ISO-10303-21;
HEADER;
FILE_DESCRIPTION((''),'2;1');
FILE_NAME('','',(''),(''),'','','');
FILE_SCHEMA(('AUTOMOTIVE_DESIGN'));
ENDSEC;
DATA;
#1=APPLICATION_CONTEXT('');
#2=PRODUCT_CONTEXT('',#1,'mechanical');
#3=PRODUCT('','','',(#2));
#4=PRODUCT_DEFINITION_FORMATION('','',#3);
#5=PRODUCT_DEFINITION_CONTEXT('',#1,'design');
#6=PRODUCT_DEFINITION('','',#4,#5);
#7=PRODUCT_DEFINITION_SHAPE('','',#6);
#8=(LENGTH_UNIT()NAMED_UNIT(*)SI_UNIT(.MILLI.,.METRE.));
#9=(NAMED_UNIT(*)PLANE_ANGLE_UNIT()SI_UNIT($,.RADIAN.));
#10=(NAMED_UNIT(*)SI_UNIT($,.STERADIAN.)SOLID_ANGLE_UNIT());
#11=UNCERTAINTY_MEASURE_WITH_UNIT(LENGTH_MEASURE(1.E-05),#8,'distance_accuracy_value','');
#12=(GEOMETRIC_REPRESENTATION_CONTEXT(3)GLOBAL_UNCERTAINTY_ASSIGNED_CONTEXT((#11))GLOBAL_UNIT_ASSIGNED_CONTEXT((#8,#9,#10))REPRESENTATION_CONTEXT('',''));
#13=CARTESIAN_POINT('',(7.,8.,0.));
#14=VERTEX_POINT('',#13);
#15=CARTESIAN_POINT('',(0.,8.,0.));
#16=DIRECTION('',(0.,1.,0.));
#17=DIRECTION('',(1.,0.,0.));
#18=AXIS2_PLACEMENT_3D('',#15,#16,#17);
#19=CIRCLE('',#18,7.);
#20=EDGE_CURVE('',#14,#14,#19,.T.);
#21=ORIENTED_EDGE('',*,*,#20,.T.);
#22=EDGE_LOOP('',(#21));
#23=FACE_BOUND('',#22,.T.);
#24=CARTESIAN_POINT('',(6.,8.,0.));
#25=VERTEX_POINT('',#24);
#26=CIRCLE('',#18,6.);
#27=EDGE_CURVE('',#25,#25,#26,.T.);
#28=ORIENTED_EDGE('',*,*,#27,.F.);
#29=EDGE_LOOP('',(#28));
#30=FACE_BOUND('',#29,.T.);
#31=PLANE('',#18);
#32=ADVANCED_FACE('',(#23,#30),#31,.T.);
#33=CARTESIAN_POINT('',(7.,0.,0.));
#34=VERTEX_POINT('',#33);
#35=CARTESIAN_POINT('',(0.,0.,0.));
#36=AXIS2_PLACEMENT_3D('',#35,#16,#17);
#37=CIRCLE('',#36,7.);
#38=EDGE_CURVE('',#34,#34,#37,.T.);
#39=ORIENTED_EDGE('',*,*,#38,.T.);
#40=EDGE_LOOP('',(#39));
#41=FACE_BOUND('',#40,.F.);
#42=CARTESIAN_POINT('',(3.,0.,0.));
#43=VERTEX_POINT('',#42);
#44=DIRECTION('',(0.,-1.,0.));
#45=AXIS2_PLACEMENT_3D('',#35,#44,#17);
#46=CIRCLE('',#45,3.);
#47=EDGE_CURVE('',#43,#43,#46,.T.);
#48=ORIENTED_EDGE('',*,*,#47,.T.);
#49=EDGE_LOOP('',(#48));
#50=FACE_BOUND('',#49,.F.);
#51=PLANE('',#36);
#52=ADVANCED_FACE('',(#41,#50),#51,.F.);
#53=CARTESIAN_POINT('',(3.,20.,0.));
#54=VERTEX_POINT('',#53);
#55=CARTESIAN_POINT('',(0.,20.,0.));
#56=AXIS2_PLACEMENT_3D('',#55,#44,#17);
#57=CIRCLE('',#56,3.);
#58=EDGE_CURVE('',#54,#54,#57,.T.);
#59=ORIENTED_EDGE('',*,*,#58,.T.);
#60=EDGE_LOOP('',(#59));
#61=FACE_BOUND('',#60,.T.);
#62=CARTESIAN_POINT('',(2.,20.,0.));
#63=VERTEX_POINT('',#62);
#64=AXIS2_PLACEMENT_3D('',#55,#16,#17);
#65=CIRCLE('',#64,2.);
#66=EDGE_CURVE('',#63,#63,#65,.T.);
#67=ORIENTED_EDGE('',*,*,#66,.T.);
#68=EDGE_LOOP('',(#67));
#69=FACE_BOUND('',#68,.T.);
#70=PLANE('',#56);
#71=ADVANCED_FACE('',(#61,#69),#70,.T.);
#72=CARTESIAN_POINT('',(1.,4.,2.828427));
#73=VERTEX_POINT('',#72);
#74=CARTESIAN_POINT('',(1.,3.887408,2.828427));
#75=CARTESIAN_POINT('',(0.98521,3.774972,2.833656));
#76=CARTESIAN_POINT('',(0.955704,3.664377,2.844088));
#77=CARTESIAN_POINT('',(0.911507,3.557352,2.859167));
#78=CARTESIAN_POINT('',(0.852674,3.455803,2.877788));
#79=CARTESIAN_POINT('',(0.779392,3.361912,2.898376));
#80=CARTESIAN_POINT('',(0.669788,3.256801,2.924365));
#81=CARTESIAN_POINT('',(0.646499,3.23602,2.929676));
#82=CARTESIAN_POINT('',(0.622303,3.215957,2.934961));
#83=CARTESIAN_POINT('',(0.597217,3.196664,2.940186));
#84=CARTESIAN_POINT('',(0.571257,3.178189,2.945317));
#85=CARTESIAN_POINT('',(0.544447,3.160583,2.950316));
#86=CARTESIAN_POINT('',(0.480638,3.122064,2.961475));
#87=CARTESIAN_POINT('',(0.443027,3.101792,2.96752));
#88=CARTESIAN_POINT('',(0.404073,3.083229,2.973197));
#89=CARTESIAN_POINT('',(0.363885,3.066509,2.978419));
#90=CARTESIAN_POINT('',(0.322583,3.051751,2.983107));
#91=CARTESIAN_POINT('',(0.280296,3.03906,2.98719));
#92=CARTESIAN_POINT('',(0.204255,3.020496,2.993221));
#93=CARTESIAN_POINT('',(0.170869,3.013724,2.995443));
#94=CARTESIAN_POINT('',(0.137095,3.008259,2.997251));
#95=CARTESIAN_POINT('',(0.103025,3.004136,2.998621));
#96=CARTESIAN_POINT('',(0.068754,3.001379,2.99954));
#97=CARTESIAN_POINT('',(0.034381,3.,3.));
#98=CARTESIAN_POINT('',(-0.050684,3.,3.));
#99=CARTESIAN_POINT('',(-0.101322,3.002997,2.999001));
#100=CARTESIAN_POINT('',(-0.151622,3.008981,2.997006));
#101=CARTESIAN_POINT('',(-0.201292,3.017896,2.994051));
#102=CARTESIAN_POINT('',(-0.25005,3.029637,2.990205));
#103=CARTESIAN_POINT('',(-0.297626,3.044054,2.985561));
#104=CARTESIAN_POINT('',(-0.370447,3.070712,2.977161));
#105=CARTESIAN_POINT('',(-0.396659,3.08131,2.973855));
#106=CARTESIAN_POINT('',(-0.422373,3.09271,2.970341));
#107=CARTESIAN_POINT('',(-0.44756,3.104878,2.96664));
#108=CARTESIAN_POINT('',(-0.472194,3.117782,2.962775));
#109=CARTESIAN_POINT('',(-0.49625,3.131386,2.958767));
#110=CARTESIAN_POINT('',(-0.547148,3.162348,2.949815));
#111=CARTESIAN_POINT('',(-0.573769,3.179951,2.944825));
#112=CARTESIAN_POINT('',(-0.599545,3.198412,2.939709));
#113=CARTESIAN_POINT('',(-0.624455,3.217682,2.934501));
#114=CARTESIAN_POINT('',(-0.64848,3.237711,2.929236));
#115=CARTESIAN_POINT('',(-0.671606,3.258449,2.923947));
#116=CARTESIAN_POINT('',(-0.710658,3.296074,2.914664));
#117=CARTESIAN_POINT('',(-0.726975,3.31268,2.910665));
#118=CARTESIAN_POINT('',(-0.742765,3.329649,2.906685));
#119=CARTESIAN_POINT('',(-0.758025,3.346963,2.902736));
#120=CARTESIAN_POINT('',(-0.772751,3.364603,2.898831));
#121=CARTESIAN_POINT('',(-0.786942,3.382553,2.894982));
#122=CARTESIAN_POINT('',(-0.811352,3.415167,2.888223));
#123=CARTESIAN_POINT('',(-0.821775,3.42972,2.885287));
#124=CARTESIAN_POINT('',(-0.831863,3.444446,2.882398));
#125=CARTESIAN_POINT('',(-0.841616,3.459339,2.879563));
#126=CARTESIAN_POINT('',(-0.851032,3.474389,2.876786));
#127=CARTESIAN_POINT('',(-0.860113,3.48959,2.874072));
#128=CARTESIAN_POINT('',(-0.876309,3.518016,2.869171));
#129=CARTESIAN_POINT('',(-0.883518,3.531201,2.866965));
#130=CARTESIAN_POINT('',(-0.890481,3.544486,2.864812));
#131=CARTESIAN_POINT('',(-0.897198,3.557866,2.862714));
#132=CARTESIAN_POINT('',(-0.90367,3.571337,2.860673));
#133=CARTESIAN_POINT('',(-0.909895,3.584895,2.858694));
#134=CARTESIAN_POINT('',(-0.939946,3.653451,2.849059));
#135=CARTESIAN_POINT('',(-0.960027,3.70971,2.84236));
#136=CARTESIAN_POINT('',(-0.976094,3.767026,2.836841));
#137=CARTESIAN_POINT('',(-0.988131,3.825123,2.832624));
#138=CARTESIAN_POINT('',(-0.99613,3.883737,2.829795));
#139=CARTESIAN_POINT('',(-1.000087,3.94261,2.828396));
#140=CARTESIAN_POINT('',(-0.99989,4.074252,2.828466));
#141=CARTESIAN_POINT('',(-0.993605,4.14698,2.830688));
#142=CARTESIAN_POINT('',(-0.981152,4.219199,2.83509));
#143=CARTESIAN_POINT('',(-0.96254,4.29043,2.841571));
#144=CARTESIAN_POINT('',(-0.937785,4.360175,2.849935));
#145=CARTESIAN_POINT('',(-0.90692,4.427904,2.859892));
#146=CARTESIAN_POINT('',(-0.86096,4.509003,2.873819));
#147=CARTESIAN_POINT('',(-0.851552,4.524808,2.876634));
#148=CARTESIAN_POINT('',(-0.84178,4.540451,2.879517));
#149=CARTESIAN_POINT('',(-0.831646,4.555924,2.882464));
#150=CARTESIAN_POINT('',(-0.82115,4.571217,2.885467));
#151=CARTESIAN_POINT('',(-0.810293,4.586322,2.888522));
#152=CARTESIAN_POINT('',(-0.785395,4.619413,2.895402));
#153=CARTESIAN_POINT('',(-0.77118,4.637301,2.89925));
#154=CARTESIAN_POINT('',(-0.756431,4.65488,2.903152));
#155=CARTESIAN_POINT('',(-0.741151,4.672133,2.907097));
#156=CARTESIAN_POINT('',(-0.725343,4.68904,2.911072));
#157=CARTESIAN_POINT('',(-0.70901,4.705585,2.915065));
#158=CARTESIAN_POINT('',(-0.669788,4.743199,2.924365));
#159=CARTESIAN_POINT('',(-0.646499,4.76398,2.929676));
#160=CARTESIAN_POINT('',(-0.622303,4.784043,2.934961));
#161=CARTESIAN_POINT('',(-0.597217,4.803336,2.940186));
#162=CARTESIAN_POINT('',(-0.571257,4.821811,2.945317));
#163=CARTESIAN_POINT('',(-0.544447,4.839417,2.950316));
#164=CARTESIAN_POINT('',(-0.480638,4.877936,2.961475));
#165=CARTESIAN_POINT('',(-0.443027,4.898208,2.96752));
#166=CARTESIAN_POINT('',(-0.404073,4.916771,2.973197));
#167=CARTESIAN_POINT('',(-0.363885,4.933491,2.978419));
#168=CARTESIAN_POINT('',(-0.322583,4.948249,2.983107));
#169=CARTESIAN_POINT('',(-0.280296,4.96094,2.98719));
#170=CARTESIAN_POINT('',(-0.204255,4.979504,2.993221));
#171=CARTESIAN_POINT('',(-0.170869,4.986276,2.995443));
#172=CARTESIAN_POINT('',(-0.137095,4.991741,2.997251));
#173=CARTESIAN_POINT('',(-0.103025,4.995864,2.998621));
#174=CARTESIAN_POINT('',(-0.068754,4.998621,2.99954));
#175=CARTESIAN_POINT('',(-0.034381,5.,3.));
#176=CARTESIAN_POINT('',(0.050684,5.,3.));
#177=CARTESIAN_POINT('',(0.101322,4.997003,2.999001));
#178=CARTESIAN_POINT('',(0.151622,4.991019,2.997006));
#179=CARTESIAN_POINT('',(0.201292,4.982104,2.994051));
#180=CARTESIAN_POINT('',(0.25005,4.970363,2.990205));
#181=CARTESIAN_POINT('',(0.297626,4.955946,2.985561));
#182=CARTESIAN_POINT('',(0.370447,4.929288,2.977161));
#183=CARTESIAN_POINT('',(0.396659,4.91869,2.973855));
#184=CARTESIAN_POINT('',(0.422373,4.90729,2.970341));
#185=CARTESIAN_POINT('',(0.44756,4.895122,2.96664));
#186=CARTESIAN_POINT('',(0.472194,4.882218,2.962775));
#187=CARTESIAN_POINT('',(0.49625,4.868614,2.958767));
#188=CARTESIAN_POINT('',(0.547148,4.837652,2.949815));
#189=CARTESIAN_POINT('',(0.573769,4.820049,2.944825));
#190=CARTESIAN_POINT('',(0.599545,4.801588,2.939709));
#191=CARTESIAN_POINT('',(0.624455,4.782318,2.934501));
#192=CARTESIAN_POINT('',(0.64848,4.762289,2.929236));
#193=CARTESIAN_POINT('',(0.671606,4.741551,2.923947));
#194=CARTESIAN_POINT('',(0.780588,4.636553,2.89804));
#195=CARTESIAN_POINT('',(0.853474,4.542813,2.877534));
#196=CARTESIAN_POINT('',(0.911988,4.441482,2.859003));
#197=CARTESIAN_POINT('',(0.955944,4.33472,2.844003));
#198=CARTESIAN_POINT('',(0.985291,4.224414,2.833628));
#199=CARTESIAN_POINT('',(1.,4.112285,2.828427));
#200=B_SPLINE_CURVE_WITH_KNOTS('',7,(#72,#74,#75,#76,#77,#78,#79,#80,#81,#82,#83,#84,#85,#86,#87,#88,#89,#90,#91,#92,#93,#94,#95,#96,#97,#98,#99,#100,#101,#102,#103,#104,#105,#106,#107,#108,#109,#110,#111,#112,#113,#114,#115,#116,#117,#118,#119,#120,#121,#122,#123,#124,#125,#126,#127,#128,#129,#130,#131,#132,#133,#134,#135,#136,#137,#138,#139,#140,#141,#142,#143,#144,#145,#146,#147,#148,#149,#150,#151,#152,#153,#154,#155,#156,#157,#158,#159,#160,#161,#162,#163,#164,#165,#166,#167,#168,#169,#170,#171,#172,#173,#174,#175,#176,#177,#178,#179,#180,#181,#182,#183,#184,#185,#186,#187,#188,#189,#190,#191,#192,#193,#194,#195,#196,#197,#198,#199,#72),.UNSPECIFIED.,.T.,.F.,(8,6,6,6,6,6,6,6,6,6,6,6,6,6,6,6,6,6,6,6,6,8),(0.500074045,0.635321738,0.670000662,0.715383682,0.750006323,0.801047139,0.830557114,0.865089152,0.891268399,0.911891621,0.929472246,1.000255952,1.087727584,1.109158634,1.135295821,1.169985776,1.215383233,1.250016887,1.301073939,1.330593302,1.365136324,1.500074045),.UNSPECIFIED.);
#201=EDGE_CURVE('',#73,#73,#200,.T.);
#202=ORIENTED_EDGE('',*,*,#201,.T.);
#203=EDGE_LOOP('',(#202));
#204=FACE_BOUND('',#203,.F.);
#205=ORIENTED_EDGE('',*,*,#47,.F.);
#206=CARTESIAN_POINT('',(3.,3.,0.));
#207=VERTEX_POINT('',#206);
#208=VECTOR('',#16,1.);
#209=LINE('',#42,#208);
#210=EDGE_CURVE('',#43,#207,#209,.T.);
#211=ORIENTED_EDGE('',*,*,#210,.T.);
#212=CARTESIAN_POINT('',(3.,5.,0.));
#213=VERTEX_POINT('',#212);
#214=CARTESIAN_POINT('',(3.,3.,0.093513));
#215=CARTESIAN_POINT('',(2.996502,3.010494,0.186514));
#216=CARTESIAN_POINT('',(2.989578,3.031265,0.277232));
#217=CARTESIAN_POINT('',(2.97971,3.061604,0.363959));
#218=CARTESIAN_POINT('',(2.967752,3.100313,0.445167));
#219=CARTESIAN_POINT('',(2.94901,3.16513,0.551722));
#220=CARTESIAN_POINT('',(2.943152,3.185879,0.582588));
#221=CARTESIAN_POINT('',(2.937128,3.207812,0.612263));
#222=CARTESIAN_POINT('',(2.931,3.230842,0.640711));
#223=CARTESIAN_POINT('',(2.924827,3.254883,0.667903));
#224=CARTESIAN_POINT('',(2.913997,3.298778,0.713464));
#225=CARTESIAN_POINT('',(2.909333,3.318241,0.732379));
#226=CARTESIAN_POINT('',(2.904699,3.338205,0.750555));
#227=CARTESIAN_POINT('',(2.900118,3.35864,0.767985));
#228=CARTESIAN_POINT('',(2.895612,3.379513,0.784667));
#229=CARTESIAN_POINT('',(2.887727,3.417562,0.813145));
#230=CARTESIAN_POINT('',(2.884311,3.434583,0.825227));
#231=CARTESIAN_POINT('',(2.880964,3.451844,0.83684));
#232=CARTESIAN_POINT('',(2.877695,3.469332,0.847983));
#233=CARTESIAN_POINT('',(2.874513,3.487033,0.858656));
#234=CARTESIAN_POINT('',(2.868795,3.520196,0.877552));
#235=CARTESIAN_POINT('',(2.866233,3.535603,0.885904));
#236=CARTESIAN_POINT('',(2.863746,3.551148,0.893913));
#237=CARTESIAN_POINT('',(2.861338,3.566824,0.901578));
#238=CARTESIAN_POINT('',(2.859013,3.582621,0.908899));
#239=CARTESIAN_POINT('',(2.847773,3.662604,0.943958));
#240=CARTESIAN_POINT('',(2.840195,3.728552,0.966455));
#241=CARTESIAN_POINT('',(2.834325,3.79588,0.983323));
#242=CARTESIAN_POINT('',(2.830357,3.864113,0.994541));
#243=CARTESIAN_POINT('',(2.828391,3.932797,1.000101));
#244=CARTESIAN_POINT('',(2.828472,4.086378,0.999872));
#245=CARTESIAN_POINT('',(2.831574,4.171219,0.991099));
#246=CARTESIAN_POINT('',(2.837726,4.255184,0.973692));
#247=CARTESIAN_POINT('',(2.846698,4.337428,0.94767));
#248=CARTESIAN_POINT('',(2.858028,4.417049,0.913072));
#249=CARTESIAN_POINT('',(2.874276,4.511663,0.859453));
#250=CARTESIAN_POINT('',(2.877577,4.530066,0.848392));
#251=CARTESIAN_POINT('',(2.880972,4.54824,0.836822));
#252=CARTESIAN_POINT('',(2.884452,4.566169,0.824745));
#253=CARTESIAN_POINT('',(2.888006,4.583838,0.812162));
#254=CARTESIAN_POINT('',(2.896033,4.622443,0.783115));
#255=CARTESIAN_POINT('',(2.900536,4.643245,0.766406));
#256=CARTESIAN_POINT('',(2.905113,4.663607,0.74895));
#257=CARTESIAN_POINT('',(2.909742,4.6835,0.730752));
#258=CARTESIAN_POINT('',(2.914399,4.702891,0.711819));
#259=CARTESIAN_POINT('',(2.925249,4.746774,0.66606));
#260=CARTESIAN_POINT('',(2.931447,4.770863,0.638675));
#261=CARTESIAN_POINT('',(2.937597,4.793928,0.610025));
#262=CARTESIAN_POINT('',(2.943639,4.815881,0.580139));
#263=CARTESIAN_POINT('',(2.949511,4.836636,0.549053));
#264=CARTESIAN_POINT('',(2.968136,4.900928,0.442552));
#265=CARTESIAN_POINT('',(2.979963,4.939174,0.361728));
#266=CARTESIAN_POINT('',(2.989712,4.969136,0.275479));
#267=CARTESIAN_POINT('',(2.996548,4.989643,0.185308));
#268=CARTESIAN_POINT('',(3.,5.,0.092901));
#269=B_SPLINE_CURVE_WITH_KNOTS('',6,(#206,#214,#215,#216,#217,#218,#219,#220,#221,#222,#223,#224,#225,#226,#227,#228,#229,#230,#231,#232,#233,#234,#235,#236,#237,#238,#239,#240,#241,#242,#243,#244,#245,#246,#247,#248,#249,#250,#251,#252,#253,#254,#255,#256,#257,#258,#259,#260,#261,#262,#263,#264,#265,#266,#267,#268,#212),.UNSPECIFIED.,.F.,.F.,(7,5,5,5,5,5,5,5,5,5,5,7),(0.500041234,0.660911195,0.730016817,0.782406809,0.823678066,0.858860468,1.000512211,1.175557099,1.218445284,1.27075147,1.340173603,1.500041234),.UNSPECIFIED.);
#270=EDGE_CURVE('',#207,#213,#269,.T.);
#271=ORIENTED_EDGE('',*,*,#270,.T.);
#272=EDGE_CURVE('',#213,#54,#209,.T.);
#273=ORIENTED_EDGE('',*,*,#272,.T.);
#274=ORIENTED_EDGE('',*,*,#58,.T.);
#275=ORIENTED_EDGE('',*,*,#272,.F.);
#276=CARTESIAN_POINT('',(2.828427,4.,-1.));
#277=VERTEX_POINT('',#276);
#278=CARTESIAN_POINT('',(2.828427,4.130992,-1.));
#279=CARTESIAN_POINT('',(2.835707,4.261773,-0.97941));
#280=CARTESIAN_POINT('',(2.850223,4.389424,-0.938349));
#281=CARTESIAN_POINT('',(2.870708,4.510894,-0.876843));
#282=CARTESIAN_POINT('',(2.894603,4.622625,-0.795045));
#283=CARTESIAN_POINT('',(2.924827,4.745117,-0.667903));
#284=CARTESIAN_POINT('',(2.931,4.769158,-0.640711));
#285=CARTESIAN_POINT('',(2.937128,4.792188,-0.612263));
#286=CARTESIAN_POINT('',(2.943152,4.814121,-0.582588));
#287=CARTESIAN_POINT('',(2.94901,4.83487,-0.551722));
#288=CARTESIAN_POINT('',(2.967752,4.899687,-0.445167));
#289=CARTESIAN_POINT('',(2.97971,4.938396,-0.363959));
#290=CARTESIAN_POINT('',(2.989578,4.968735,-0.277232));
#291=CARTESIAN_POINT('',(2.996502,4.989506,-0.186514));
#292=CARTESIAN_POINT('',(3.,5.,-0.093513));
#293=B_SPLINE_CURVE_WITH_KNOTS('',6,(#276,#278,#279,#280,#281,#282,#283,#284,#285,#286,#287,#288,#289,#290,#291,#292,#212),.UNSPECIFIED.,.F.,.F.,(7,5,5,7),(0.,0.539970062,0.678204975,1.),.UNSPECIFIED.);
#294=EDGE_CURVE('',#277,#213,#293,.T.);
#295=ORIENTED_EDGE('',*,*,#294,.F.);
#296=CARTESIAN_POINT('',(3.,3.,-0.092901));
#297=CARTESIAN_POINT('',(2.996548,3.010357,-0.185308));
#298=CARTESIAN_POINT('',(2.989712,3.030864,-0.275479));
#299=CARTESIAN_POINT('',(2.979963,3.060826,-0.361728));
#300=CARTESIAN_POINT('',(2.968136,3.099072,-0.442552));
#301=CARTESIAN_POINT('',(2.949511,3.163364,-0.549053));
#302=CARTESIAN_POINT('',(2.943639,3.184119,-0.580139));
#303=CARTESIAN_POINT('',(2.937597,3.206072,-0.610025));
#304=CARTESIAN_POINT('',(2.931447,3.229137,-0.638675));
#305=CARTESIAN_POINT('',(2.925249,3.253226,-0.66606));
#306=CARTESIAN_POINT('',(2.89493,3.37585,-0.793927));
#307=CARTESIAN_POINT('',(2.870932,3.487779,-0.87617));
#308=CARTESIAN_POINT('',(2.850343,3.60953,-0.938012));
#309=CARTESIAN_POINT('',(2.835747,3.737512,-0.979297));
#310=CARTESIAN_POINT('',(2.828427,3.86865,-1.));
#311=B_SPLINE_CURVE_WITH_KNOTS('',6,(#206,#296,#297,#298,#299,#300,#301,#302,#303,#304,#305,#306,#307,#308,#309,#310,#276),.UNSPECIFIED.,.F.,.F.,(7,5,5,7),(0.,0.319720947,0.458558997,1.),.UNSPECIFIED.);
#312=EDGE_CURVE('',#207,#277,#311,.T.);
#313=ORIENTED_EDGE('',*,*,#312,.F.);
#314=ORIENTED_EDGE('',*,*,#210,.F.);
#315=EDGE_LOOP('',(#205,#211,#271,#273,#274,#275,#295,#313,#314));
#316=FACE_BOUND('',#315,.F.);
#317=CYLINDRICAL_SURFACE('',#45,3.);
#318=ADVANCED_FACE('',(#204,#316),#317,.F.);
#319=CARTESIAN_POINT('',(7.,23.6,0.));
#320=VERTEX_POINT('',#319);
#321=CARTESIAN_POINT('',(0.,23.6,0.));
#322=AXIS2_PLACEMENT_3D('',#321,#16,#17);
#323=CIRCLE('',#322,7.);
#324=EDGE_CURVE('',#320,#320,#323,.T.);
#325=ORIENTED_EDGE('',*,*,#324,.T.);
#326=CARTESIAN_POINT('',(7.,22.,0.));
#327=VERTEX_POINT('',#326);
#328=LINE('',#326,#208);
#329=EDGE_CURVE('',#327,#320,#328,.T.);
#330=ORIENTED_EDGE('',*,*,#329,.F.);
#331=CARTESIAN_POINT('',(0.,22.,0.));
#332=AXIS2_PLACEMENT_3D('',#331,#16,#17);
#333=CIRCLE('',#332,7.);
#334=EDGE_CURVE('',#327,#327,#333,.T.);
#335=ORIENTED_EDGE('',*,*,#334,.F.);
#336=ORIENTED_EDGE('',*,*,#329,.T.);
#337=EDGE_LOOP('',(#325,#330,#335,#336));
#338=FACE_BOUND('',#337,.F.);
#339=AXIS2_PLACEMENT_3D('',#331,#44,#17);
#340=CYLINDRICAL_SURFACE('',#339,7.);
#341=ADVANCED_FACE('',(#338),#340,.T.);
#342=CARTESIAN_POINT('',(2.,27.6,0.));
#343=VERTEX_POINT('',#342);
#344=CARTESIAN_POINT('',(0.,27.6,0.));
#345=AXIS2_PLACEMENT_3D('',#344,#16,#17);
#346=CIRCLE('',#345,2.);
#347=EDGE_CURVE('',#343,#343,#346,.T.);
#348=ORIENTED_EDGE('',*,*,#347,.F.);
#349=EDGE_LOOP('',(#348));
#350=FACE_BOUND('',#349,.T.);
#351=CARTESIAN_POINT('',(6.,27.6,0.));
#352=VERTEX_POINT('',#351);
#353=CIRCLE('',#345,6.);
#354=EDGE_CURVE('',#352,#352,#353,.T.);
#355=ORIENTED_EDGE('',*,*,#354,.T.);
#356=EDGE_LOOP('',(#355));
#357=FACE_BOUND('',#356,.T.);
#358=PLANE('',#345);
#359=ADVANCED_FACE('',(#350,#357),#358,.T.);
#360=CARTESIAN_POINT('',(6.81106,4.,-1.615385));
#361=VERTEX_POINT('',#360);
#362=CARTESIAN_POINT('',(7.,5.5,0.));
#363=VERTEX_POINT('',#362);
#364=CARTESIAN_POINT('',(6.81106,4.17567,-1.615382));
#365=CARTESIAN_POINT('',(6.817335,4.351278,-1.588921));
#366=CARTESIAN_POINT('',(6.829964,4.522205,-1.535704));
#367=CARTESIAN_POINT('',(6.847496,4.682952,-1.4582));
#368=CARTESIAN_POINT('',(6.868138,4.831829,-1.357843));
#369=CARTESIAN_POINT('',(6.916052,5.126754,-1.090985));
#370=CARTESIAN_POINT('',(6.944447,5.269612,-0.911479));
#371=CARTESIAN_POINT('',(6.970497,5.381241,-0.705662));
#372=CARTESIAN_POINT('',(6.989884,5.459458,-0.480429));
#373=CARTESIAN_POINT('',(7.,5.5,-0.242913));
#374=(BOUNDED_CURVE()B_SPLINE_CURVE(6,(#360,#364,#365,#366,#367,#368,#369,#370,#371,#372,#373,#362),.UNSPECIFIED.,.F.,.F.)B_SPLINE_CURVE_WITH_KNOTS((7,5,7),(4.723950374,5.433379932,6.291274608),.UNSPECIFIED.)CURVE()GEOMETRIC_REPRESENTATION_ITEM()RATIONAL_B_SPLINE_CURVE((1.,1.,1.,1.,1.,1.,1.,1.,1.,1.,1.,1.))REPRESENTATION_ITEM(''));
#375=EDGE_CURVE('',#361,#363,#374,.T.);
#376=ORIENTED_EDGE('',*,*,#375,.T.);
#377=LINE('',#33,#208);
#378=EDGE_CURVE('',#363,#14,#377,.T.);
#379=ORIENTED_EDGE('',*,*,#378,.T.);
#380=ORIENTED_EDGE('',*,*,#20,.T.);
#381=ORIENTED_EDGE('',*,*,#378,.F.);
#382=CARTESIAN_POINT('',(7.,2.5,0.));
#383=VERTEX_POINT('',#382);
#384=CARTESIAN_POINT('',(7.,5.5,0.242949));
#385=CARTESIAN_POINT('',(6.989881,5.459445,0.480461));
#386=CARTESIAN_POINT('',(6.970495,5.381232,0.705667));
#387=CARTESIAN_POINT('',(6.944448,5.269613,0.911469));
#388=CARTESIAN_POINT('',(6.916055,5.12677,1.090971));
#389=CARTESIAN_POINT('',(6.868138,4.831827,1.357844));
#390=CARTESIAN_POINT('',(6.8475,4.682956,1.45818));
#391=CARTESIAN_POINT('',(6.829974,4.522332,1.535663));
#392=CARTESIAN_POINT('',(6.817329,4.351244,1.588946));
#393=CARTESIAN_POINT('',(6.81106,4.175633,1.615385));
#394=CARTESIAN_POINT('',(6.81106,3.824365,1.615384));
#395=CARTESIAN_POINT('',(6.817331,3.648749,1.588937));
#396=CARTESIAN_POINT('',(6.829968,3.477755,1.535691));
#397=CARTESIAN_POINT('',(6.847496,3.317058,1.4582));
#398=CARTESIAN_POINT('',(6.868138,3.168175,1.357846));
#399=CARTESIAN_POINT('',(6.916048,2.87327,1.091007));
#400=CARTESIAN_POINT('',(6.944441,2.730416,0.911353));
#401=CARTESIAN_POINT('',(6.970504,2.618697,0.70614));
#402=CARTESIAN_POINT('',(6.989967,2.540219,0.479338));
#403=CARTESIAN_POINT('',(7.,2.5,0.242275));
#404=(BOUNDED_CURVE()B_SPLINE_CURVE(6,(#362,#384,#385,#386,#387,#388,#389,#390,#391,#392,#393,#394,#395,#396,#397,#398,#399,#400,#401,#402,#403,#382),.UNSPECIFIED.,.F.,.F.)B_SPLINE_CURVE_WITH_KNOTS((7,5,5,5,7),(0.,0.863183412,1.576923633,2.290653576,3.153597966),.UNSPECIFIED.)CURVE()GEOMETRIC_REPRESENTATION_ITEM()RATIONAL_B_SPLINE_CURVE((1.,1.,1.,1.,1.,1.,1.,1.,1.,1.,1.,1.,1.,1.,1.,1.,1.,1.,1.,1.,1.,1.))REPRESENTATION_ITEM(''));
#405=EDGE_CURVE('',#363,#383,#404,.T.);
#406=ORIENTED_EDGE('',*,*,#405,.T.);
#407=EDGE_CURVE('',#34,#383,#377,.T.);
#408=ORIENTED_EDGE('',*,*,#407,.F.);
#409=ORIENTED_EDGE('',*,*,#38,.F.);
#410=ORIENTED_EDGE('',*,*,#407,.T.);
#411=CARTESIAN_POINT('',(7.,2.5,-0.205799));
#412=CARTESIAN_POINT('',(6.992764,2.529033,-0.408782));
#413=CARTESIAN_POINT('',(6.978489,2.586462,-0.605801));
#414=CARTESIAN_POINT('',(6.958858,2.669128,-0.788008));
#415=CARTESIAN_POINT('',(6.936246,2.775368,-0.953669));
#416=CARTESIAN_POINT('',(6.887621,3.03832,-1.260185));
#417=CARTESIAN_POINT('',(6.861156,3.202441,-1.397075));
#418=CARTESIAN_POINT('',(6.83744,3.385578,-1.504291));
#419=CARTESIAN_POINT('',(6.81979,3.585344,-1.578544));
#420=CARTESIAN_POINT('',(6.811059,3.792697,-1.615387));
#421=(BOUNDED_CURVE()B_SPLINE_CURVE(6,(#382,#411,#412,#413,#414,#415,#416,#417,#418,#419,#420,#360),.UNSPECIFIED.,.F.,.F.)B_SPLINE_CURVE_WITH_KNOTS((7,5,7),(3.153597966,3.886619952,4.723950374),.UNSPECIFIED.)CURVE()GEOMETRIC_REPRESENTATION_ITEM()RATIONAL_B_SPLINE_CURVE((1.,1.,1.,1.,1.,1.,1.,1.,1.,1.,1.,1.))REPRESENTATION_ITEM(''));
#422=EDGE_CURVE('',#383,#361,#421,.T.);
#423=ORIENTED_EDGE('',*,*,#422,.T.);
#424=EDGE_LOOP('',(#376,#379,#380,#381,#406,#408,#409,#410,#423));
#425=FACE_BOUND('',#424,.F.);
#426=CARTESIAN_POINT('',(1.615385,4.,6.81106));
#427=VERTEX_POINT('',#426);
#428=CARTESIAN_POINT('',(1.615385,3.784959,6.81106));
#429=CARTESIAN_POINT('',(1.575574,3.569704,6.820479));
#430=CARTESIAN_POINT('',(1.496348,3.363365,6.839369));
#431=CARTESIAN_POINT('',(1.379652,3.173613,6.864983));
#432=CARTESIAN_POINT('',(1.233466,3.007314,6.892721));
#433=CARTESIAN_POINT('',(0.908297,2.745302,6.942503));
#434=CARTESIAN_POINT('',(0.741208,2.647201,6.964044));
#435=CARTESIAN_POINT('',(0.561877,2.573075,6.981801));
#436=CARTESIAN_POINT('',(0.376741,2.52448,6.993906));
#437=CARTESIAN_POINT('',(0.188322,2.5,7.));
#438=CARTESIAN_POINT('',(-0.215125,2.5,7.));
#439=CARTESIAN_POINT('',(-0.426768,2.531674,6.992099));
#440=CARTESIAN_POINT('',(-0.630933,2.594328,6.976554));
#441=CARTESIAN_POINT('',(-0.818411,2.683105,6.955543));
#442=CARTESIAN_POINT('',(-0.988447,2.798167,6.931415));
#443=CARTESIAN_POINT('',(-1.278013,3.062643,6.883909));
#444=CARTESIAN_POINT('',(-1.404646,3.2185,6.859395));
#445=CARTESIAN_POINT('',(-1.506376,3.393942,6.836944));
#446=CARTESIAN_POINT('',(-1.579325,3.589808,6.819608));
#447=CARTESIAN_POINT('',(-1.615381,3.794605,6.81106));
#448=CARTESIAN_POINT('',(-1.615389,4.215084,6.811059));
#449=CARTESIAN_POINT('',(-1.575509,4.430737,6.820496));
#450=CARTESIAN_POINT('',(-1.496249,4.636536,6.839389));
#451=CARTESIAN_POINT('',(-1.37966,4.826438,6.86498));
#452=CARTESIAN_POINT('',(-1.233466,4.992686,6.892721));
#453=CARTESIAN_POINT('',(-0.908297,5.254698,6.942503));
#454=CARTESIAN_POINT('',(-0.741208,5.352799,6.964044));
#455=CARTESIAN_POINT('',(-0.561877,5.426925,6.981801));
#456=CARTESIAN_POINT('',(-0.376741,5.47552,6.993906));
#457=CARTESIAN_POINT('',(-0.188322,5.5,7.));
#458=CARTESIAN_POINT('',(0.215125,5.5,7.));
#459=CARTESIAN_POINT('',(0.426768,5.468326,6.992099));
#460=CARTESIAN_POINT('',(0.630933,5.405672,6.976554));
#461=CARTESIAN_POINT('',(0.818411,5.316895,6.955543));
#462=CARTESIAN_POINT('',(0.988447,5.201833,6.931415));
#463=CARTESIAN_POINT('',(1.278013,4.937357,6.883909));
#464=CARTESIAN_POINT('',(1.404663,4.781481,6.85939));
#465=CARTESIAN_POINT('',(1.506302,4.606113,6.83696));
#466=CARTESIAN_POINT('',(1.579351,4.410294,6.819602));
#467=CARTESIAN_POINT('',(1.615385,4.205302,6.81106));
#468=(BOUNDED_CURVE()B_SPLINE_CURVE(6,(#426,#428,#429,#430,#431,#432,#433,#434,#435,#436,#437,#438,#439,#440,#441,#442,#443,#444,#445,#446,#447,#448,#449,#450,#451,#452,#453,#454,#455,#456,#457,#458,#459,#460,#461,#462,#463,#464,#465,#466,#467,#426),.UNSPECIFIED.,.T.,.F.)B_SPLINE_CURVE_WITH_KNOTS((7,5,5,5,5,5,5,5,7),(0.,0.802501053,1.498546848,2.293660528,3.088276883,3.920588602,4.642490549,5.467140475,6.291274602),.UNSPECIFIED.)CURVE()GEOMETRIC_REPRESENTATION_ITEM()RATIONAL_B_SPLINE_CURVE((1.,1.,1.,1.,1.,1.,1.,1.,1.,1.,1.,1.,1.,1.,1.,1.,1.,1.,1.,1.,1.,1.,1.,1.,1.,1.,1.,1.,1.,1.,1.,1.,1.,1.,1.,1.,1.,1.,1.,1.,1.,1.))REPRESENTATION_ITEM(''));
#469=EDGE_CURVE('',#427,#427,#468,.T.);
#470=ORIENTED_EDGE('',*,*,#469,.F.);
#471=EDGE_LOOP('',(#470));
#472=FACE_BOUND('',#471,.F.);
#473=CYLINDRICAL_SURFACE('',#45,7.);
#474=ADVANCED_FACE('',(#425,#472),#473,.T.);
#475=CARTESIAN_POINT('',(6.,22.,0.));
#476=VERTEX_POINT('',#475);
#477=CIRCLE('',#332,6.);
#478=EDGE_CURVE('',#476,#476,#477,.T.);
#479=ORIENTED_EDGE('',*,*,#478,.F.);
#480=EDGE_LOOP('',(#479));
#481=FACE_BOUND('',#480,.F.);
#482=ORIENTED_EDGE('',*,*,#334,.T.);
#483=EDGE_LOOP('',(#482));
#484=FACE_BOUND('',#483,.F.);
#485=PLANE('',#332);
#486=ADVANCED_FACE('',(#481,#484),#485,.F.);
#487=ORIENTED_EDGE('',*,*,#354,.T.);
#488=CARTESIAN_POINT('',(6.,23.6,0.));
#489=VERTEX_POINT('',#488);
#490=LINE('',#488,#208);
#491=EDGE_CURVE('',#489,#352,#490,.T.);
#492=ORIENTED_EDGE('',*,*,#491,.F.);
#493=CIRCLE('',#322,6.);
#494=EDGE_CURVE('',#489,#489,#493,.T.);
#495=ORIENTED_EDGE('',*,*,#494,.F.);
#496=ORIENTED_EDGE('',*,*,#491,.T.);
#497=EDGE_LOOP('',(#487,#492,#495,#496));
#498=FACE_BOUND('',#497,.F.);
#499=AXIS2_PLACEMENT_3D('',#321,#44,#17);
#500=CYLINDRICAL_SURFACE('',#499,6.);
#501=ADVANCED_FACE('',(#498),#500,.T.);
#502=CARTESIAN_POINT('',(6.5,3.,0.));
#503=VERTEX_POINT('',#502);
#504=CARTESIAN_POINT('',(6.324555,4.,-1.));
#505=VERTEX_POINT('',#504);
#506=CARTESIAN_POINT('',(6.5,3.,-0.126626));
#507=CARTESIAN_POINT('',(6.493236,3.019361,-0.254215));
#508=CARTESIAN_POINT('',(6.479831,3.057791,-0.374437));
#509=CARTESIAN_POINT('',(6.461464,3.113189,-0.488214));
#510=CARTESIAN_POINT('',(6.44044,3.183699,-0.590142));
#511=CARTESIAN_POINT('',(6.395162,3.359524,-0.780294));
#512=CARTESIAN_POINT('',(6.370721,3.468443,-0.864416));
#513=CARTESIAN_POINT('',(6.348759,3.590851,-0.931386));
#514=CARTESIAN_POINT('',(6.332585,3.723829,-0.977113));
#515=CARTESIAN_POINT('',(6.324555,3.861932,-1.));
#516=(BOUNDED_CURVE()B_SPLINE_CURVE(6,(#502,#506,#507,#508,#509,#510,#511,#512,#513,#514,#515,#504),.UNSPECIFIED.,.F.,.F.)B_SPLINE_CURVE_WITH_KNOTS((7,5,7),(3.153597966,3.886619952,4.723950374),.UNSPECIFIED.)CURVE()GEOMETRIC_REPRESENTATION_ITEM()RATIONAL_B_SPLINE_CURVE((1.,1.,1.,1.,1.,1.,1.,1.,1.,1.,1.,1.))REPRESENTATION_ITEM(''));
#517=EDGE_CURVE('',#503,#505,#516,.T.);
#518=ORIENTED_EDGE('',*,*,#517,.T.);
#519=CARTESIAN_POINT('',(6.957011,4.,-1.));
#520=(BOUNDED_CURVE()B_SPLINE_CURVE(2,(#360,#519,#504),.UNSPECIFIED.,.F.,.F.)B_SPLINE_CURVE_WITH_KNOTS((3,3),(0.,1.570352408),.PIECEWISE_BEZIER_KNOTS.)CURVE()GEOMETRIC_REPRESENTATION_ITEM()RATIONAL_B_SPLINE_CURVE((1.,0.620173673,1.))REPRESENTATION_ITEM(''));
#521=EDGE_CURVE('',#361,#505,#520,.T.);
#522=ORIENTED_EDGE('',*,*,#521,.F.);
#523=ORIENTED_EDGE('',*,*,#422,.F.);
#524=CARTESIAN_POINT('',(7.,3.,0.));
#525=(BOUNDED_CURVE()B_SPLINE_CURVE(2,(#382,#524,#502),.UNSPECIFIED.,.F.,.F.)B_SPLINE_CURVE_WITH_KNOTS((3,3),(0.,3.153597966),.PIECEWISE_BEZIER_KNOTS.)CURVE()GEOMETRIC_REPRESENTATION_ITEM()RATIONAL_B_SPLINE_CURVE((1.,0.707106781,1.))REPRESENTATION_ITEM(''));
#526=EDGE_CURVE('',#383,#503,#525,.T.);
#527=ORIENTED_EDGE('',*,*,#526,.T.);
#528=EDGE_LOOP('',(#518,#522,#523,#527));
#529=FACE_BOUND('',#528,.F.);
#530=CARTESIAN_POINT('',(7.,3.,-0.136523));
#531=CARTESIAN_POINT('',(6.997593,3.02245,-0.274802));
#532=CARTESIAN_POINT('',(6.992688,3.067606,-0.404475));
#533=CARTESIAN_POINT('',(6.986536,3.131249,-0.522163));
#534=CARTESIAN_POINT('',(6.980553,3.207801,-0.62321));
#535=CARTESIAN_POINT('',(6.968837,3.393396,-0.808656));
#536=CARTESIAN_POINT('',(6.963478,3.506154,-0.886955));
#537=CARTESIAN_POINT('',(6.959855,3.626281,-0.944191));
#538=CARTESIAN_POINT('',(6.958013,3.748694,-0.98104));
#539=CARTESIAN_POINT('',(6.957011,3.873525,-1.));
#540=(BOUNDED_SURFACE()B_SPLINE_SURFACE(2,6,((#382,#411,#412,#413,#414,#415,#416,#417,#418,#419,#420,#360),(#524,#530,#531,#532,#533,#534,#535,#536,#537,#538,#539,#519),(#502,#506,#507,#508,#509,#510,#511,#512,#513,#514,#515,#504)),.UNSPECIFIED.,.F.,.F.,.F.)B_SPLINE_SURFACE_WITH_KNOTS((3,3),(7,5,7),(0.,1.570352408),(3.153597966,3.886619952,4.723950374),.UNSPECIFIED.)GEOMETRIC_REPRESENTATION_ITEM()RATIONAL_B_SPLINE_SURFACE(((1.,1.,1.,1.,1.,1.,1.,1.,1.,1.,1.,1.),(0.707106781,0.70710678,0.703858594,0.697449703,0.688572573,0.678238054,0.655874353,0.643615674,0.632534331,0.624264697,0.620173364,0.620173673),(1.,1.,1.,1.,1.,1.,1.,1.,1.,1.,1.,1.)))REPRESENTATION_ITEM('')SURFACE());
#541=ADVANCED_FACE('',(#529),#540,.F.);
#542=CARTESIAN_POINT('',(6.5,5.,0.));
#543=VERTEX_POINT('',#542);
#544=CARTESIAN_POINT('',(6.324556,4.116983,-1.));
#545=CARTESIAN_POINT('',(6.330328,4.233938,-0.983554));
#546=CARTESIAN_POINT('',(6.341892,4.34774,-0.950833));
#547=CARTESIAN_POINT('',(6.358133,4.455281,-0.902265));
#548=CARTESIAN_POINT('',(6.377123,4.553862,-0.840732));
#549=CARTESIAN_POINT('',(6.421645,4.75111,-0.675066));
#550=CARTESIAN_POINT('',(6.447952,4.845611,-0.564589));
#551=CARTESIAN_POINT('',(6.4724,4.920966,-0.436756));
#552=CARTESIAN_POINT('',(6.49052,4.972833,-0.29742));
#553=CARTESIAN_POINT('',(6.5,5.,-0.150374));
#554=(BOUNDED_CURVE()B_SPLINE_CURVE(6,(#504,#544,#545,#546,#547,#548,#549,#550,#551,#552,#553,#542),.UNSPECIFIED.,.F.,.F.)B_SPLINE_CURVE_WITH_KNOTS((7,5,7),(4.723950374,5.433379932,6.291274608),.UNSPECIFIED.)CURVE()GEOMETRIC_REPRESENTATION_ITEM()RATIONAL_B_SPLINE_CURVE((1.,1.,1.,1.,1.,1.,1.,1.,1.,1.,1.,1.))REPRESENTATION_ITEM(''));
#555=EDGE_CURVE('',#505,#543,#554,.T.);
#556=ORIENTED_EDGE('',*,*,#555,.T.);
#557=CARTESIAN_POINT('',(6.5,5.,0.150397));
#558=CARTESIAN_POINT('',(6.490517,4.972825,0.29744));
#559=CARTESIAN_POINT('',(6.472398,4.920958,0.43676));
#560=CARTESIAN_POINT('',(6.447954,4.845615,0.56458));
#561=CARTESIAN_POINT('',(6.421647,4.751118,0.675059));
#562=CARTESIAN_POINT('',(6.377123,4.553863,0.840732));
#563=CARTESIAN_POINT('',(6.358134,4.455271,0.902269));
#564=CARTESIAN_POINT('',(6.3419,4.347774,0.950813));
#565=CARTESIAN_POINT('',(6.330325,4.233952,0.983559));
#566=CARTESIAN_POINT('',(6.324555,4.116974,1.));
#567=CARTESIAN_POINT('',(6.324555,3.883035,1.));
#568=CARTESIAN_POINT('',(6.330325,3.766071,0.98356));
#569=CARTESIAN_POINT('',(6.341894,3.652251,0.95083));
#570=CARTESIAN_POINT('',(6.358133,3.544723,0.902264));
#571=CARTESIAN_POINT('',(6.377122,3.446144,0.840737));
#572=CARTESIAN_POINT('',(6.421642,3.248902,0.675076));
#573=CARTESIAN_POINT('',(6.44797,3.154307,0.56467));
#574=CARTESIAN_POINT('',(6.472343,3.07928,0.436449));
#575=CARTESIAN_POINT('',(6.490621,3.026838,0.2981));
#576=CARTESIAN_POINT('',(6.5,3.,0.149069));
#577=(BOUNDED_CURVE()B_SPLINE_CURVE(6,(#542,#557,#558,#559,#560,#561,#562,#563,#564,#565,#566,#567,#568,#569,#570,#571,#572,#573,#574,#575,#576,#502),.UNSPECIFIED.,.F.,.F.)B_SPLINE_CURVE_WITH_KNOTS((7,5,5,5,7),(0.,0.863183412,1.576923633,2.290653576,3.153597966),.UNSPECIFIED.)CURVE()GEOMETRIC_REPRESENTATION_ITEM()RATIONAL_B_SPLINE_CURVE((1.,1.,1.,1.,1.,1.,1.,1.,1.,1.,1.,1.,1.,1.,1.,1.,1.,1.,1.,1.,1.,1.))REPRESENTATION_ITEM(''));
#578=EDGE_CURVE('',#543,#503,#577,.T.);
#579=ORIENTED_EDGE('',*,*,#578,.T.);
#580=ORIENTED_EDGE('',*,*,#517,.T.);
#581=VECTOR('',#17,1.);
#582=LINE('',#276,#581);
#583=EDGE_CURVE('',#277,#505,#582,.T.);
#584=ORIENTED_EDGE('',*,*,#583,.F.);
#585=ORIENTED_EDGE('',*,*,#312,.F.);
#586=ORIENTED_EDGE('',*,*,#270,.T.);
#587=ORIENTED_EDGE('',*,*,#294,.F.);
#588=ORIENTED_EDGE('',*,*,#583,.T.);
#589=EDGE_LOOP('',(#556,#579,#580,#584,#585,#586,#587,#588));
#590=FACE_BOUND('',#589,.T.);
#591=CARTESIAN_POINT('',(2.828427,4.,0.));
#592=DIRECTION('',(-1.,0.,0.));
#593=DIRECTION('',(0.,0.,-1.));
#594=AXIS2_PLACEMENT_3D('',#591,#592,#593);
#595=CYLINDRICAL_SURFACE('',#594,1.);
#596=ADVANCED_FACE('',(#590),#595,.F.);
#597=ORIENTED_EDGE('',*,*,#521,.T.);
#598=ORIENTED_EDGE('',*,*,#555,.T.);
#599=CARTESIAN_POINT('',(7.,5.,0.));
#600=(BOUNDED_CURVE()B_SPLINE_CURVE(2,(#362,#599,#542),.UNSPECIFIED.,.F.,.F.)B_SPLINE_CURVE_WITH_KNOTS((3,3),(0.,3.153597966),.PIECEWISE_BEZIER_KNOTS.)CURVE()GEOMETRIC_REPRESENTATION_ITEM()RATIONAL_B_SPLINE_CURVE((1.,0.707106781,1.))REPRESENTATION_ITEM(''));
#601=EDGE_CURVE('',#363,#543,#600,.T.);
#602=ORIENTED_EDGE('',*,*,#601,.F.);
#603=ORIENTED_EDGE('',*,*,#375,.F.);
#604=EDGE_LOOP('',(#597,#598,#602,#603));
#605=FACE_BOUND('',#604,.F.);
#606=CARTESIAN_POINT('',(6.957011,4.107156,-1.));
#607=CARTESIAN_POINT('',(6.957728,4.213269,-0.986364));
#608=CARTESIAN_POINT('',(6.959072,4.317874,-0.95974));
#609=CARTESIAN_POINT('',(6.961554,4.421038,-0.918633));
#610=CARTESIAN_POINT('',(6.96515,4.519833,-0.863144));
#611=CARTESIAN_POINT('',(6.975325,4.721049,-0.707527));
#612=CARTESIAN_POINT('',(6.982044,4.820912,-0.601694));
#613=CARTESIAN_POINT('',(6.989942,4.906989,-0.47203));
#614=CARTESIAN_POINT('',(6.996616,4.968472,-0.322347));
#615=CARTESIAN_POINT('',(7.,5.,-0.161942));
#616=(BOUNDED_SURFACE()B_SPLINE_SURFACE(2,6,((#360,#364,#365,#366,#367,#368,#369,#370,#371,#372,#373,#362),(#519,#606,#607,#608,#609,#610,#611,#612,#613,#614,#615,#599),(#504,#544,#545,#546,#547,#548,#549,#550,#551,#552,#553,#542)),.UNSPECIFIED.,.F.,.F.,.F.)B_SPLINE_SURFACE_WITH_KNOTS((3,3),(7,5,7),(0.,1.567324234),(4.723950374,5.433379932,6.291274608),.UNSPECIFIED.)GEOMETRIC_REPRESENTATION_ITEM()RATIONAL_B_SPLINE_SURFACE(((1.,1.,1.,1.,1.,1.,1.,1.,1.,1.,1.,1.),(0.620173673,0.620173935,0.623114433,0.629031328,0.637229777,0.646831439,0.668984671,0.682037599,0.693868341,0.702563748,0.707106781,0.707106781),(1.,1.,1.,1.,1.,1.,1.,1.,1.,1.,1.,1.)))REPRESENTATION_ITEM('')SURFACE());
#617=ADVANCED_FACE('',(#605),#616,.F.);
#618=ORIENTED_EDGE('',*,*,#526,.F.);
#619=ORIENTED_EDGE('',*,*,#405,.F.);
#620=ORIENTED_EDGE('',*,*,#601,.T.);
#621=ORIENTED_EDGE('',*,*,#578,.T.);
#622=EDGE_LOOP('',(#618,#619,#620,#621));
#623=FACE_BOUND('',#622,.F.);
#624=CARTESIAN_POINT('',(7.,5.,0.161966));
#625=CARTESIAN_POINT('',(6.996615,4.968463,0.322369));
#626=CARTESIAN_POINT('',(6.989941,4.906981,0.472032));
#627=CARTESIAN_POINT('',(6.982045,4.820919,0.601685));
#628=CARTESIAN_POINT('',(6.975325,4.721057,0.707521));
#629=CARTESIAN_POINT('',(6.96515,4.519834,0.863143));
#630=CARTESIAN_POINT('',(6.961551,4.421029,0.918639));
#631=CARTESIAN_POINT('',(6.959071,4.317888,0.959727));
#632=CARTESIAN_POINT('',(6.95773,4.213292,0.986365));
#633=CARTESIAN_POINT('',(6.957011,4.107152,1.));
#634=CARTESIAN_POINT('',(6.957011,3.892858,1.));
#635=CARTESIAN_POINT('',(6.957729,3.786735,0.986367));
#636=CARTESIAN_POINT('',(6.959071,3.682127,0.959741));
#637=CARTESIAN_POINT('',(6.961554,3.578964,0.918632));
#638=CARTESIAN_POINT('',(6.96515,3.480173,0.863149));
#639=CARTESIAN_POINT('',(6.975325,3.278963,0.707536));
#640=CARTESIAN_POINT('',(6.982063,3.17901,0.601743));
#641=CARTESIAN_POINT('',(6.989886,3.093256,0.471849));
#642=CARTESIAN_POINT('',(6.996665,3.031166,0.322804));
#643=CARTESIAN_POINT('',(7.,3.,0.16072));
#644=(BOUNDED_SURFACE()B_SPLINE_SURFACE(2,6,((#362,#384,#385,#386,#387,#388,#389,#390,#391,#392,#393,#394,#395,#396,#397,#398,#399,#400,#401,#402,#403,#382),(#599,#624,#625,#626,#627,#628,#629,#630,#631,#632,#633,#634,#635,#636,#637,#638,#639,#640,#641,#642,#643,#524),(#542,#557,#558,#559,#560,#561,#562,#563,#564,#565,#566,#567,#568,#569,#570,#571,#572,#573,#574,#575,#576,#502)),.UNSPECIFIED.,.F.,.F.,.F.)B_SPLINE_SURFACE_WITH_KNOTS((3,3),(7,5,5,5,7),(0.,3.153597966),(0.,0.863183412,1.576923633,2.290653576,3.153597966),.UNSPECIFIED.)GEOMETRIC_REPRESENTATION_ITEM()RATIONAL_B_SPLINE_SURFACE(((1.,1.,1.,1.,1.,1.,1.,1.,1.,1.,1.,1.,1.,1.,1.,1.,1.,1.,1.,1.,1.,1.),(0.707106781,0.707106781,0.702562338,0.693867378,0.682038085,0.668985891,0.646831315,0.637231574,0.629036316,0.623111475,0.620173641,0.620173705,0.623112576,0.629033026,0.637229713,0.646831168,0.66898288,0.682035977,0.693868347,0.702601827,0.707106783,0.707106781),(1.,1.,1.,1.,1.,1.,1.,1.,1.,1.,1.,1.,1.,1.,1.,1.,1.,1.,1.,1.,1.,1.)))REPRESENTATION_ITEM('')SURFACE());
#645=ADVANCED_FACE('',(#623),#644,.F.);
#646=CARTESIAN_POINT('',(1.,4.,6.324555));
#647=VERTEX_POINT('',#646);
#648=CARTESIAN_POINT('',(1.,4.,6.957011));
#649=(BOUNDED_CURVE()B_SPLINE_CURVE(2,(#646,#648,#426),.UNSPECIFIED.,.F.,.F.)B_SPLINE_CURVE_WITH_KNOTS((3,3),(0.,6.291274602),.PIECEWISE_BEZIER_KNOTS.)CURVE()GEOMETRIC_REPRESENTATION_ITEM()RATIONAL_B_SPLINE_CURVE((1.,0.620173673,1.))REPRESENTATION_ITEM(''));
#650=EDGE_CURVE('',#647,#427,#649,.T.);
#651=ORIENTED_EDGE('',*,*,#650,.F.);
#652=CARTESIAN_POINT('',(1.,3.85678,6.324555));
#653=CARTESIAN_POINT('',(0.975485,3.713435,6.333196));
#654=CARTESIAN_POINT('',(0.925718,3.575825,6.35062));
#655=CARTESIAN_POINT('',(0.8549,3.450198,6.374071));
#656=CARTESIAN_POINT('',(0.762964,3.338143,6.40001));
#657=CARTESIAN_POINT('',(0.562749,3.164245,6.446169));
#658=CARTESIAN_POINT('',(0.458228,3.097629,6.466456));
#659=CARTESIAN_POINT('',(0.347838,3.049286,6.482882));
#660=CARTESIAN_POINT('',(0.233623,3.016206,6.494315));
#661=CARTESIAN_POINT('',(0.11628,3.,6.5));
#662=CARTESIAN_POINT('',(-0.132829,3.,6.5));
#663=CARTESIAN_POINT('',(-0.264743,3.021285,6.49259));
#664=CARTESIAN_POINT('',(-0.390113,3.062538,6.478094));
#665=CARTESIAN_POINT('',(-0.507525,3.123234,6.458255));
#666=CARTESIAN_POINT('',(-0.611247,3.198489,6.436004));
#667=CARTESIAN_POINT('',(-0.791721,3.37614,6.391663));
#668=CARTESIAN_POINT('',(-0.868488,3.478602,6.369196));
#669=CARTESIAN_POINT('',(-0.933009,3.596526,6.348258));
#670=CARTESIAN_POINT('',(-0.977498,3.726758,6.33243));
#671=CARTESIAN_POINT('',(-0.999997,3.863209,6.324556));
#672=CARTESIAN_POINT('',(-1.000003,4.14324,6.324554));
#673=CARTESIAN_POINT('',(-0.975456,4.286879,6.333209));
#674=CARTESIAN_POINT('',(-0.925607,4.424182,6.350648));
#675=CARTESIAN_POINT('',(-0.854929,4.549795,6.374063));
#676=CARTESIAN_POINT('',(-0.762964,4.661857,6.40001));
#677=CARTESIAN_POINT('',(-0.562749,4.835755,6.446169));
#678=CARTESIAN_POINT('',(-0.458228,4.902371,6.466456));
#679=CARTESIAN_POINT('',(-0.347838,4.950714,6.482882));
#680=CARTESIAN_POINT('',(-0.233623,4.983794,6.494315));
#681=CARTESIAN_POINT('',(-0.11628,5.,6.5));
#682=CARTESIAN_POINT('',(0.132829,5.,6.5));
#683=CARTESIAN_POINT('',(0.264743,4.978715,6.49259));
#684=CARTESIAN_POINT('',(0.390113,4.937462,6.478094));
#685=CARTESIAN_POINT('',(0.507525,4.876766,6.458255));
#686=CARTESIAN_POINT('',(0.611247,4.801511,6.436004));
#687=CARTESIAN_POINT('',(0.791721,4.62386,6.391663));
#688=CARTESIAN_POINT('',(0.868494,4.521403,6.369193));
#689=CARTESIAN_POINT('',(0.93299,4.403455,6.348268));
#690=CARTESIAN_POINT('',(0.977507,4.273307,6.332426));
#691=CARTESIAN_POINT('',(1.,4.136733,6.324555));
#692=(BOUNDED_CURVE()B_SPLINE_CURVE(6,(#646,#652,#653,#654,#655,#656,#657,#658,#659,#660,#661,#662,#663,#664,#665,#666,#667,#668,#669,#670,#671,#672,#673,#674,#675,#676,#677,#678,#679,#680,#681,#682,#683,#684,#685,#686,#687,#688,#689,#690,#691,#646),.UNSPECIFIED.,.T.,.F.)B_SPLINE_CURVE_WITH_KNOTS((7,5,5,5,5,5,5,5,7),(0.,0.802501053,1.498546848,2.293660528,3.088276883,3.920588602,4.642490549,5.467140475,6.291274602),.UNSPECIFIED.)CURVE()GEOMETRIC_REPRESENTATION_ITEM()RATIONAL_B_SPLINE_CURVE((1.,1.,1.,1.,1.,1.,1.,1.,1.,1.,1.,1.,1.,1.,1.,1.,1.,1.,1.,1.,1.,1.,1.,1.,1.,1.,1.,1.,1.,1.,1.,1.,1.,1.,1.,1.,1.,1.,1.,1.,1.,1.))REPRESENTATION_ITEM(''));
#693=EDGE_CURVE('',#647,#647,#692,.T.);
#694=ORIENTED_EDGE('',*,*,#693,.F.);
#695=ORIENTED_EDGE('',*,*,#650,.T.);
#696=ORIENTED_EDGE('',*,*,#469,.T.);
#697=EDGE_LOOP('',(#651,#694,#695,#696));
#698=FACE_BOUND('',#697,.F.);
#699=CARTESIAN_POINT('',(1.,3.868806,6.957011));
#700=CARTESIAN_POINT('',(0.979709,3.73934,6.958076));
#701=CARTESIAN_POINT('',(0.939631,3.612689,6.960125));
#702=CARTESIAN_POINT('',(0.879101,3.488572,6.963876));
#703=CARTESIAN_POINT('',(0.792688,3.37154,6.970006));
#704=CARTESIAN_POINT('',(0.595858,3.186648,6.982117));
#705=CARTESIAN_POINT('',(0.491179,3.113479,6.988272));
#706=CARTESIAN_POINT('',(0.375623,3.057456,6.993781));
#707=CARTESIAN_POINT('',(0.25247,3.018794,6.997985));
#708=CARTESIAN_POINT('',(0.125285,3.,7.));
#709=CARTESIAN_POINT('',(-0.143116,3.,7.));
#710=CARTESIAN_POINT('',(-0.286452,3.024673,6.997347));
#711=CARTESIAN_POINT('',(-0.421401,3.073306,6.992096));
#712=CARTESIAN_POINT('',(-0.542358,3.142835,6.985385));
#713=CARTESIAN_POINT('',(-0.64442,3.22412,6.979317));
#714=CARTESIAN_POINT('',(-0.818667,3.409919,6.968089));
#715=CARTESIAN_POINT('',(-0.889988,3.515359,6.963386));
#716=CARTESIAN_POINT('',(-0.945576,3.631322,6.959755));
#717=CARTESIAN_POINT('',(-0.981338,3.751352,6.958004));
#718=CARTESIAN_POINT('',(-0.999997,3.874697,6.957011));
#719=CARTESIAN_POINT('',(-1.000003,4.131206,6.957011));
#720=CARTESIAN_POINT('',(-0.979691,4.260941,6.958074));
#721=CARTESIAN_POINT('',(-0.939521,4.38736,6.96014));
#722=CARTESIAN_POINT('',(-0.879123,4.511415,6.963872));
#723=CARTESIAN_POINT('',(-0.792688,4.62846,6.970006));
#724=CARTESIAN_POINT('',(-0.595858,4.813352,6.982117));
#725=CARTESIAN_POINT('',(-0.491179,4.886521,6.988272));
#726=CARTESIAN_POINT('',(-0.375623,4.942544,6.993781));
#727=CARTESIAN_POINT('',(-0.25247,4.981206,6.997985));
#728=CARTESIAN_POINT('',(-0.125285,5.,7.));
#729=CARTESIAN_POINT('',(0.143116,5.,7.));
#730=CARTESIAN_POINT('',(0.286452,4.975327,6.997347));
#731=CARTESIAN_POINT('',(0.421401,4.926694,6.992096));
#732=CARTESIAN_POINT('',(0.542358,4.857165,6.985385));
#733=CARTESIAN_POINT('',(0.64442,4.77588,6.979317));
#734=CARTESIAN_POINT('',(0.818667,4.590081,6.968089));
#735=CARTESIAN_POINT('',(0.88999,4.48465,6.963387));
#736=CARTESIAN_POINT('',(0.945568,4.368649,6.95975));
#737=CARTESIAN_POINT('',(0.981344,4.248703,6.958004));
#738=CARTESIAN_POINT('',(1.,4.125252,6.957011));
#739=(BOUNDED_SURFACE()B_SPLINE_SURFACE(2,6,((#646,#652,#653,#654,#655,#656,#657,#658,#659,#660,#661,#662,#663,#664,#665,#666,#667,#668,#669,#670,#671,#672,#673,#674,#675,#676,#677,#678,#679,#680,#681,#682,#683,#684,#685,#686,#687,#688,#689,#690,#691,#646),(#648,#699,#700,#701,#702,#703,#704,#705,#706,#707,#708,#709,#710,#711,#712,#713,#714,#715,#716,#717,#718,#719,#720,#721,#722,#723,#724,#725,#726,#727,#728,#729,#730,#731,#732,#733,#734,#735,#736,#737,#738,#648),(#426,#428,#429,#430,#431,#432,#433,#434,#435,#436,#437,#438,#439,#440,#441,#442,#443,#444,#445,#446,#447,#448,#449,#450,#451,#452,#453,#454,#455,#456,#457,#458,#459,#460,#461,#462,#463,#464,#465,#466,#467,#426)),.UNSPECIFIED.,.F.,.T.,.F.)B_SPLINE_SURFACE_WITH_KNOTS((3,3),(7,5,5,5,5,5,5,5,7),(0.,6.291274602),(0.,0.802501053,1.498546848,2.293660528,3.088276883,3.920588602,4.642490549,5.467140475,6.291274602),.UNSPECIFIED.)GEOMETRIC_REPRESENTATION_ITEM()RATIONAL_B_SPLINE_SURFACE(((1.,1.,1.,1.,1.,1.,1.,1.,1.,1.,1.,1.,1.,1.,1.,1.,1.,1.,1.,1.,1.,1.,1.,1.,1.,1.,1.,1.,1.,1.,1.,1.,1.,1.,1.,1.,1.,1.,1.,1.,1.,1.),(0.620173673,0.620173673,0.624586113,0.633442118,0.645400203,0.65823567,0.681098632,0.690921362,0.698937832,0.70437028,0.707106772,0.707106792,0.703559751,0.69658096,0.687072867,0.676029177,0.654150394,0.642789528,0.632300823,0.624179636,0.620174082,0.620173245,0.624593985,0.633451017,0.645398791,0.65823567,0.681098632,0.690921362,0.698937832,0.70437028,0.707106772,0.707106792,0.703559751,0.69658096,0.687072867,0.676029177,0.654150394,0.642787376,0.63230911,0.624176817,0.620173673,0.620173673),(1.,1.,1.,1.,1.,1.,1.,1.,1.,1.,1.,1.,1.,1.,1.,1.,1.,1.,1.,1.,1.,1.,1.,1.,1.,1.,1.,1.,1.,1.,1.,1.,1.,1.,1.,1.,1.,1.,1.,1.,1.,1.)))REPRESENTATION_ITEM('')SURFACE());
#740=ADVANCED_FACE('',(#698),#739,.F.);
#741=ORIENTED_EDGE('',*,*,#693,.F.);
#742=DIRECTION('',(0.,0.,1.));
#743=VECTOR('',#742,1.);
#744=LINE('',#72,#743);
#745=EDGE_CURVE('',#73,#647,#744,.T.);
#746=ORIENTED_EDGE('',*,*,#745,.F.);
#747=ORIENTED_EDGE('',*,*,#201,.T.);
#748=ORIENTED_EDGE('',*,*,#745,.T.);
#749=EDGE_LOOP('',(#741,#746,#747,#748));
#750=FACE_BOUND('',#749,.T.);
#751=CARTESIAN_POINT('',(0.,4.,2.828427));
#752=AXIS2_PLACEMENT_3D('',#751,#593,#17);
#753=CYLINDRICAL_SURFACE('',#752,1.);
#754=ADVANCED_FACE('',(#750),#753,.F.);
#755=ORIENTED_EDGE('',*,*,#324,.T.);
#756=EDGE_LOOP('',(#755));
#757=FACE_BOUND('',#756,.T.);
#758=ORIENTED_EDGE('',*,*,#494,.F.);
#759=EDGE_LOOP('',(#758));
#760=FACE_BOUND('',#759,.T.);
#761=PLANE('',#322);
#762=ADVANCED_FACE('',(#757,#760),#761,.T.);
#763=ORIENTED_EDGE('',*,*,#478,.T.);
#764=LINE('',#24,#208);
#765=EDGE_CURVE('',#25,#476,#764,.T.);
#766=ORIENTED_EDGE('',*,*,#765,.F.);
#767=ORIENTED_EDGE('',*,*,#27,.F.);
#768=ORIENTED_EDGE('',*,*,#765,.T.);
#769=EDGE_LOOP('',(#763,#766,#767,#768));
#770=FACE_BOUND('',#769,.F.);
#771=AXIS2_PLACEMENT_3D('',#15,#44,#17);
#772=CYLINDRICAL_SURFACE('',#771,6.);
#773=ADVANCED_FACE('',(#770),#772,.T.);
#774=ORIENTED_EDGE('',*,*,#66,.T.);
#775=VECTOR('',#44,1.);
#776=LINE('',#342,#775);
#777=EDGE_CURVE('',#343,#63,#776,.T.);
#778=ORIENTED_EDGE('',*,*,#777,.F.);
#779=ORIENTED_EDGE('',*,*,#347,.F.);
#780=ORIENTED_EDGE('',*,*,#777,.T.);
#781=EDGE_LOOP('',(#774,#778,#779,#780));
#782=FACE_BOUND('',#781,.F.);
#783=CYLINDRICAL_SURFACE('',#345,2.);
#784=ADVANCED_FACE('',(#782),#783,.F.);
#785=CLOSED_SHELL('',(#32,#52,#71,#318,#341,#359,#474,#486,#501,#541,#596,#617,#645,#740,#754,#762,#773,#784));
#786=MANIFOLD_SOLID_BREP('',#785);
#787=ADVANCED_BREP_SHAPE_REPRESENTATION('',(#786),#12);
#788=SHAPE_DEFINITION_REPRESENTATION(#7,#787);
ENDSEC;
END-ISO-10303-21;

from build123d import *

# Parameters (mm, degrees)
SKETCH1_R           = 7
BOSS_EXTRUDE1_DEPTH = 8
SKETCH2_R           = 6
BOSS_EXTRUDE2_DEPTH = 14
SKETCH3_R           = 7
BOSS_EXTRUDE3_DEPTH = 1.6
SKETCH4_R           = 6
BOSS_EXTRUDE4_DEPTH = 4
SKETCH5_R           = 2
CUT_EXTRUDE1_DEPTH  = 28.6
SKETCH6_R           = 3
CUT_EXTRUDE2_DEPTH  = 20
CUT_EXTRUDE3_START  = -4.171573
SKETCH8_R           = 1
CUT_EXTRUDE3_DEPTH  = 4.171573
CIRPATTERN1_COUNT   = 2
CIRPATTERN1_ANGLE   = 90
FILLET1_R           = 0.5


with BuildPart() as part:
    # Sketch1 → Boss-Extrude1 (new body)
    with BuildSketch(Plane(origin=(0, 0, 0), x_dir=(1, 0, 0), z_dir=(0, 1, 0))):
        Circle(SKETCH1_R)
    extrude(amount=BOSS_EXTRUDE1_DEPTH)

    # Sketch2 → Boss-Extrude2 (add)
    with BuildSketch(Plane(origin=(0, 8, 0), x_dir=(1, 0, 0), z_dir=(0, 1, 0))):
        Circle(SKETCH2_R)
    extrude(amount=BOSS_EXTRUDE2_DEPTH)

    # Sketch3 → Boss-Extrude3 (add)
    with BuildSketch(Plane(origin=(0, 22, 0), x_dir=(1, 0, 0), z_dir=(0, 1, 0))):
        Circle(SKETCH3_R)
    extrude(amount=BOSS_EXTRUDE3_DEPTH)

    # Sketch4 → Boss-Extrude4 (add)
    with BuildSketch(Plane(origin=(0, 23.6, 0), x_dir=(1, 0, 0), z_dir=(0, 1, 0))):
        Circle(SKETCH4_R)
    extrude(amount=BOSS_EXTRUDE4_DEPTH)

    # Sketch5 → Cut-Extrude1 (cut, through all)
    with BuildSketch(Plane(origin=(0, 27.6, 0), x_dir=(1, 0, 0), z_dir=(0, 1, 0))):
        Circle(SKETCH5_R)
    extrude(amount=-CUT_EXTRUDE1_DEPTH, mode=Mode.SUBTRACT)

    # Sketch6 → Cut-Extrude2 (cut)
    with BuildSketch(Plane.XZ):
        Circle(SKETCH6_R)
    extrude(amount=-CUT_EXTRUDE2_DEPTH, mode=Mode.SUBTRACT)

    # Sketch8 → Cut-Extrude3 (cut)
    with BuildSketch(Plane.XY.offset(7).offset(CUT_EXTRUDE3_START)):
        with Locations((0, 4)):
            Circle(SKETCH8_R)
    cut_extrude3 = extrude(amount=CUT_EXTRUDE3_DEPTH, mode=Mode.SUBTRACT)

    # CirPattern1: Cut-Extrude3 ×2 about axis
    cirpattern1_axis = Axis((0, 0, 0), (0, 1, 0))
    for i in range(1, CIRPATTERN1_COUNT):
        add(cut_extrude3.rotate(cirpattern1_axis, i * CIRPATTERN1_ANGLE / (CIRPATTERN1_COUNT - 1)), mode=Mode.SUBTRACT)

    # Fillet1
    fillet1_edges = [part.edges().sort_by_distance(p)[0] for p in [
        (-1, 4, 6.92820323),
        (6.92820323, 4, 1),
    ]]
    fillet(fillet1_edges, radius=FILLET1_R)


solid = part.part
